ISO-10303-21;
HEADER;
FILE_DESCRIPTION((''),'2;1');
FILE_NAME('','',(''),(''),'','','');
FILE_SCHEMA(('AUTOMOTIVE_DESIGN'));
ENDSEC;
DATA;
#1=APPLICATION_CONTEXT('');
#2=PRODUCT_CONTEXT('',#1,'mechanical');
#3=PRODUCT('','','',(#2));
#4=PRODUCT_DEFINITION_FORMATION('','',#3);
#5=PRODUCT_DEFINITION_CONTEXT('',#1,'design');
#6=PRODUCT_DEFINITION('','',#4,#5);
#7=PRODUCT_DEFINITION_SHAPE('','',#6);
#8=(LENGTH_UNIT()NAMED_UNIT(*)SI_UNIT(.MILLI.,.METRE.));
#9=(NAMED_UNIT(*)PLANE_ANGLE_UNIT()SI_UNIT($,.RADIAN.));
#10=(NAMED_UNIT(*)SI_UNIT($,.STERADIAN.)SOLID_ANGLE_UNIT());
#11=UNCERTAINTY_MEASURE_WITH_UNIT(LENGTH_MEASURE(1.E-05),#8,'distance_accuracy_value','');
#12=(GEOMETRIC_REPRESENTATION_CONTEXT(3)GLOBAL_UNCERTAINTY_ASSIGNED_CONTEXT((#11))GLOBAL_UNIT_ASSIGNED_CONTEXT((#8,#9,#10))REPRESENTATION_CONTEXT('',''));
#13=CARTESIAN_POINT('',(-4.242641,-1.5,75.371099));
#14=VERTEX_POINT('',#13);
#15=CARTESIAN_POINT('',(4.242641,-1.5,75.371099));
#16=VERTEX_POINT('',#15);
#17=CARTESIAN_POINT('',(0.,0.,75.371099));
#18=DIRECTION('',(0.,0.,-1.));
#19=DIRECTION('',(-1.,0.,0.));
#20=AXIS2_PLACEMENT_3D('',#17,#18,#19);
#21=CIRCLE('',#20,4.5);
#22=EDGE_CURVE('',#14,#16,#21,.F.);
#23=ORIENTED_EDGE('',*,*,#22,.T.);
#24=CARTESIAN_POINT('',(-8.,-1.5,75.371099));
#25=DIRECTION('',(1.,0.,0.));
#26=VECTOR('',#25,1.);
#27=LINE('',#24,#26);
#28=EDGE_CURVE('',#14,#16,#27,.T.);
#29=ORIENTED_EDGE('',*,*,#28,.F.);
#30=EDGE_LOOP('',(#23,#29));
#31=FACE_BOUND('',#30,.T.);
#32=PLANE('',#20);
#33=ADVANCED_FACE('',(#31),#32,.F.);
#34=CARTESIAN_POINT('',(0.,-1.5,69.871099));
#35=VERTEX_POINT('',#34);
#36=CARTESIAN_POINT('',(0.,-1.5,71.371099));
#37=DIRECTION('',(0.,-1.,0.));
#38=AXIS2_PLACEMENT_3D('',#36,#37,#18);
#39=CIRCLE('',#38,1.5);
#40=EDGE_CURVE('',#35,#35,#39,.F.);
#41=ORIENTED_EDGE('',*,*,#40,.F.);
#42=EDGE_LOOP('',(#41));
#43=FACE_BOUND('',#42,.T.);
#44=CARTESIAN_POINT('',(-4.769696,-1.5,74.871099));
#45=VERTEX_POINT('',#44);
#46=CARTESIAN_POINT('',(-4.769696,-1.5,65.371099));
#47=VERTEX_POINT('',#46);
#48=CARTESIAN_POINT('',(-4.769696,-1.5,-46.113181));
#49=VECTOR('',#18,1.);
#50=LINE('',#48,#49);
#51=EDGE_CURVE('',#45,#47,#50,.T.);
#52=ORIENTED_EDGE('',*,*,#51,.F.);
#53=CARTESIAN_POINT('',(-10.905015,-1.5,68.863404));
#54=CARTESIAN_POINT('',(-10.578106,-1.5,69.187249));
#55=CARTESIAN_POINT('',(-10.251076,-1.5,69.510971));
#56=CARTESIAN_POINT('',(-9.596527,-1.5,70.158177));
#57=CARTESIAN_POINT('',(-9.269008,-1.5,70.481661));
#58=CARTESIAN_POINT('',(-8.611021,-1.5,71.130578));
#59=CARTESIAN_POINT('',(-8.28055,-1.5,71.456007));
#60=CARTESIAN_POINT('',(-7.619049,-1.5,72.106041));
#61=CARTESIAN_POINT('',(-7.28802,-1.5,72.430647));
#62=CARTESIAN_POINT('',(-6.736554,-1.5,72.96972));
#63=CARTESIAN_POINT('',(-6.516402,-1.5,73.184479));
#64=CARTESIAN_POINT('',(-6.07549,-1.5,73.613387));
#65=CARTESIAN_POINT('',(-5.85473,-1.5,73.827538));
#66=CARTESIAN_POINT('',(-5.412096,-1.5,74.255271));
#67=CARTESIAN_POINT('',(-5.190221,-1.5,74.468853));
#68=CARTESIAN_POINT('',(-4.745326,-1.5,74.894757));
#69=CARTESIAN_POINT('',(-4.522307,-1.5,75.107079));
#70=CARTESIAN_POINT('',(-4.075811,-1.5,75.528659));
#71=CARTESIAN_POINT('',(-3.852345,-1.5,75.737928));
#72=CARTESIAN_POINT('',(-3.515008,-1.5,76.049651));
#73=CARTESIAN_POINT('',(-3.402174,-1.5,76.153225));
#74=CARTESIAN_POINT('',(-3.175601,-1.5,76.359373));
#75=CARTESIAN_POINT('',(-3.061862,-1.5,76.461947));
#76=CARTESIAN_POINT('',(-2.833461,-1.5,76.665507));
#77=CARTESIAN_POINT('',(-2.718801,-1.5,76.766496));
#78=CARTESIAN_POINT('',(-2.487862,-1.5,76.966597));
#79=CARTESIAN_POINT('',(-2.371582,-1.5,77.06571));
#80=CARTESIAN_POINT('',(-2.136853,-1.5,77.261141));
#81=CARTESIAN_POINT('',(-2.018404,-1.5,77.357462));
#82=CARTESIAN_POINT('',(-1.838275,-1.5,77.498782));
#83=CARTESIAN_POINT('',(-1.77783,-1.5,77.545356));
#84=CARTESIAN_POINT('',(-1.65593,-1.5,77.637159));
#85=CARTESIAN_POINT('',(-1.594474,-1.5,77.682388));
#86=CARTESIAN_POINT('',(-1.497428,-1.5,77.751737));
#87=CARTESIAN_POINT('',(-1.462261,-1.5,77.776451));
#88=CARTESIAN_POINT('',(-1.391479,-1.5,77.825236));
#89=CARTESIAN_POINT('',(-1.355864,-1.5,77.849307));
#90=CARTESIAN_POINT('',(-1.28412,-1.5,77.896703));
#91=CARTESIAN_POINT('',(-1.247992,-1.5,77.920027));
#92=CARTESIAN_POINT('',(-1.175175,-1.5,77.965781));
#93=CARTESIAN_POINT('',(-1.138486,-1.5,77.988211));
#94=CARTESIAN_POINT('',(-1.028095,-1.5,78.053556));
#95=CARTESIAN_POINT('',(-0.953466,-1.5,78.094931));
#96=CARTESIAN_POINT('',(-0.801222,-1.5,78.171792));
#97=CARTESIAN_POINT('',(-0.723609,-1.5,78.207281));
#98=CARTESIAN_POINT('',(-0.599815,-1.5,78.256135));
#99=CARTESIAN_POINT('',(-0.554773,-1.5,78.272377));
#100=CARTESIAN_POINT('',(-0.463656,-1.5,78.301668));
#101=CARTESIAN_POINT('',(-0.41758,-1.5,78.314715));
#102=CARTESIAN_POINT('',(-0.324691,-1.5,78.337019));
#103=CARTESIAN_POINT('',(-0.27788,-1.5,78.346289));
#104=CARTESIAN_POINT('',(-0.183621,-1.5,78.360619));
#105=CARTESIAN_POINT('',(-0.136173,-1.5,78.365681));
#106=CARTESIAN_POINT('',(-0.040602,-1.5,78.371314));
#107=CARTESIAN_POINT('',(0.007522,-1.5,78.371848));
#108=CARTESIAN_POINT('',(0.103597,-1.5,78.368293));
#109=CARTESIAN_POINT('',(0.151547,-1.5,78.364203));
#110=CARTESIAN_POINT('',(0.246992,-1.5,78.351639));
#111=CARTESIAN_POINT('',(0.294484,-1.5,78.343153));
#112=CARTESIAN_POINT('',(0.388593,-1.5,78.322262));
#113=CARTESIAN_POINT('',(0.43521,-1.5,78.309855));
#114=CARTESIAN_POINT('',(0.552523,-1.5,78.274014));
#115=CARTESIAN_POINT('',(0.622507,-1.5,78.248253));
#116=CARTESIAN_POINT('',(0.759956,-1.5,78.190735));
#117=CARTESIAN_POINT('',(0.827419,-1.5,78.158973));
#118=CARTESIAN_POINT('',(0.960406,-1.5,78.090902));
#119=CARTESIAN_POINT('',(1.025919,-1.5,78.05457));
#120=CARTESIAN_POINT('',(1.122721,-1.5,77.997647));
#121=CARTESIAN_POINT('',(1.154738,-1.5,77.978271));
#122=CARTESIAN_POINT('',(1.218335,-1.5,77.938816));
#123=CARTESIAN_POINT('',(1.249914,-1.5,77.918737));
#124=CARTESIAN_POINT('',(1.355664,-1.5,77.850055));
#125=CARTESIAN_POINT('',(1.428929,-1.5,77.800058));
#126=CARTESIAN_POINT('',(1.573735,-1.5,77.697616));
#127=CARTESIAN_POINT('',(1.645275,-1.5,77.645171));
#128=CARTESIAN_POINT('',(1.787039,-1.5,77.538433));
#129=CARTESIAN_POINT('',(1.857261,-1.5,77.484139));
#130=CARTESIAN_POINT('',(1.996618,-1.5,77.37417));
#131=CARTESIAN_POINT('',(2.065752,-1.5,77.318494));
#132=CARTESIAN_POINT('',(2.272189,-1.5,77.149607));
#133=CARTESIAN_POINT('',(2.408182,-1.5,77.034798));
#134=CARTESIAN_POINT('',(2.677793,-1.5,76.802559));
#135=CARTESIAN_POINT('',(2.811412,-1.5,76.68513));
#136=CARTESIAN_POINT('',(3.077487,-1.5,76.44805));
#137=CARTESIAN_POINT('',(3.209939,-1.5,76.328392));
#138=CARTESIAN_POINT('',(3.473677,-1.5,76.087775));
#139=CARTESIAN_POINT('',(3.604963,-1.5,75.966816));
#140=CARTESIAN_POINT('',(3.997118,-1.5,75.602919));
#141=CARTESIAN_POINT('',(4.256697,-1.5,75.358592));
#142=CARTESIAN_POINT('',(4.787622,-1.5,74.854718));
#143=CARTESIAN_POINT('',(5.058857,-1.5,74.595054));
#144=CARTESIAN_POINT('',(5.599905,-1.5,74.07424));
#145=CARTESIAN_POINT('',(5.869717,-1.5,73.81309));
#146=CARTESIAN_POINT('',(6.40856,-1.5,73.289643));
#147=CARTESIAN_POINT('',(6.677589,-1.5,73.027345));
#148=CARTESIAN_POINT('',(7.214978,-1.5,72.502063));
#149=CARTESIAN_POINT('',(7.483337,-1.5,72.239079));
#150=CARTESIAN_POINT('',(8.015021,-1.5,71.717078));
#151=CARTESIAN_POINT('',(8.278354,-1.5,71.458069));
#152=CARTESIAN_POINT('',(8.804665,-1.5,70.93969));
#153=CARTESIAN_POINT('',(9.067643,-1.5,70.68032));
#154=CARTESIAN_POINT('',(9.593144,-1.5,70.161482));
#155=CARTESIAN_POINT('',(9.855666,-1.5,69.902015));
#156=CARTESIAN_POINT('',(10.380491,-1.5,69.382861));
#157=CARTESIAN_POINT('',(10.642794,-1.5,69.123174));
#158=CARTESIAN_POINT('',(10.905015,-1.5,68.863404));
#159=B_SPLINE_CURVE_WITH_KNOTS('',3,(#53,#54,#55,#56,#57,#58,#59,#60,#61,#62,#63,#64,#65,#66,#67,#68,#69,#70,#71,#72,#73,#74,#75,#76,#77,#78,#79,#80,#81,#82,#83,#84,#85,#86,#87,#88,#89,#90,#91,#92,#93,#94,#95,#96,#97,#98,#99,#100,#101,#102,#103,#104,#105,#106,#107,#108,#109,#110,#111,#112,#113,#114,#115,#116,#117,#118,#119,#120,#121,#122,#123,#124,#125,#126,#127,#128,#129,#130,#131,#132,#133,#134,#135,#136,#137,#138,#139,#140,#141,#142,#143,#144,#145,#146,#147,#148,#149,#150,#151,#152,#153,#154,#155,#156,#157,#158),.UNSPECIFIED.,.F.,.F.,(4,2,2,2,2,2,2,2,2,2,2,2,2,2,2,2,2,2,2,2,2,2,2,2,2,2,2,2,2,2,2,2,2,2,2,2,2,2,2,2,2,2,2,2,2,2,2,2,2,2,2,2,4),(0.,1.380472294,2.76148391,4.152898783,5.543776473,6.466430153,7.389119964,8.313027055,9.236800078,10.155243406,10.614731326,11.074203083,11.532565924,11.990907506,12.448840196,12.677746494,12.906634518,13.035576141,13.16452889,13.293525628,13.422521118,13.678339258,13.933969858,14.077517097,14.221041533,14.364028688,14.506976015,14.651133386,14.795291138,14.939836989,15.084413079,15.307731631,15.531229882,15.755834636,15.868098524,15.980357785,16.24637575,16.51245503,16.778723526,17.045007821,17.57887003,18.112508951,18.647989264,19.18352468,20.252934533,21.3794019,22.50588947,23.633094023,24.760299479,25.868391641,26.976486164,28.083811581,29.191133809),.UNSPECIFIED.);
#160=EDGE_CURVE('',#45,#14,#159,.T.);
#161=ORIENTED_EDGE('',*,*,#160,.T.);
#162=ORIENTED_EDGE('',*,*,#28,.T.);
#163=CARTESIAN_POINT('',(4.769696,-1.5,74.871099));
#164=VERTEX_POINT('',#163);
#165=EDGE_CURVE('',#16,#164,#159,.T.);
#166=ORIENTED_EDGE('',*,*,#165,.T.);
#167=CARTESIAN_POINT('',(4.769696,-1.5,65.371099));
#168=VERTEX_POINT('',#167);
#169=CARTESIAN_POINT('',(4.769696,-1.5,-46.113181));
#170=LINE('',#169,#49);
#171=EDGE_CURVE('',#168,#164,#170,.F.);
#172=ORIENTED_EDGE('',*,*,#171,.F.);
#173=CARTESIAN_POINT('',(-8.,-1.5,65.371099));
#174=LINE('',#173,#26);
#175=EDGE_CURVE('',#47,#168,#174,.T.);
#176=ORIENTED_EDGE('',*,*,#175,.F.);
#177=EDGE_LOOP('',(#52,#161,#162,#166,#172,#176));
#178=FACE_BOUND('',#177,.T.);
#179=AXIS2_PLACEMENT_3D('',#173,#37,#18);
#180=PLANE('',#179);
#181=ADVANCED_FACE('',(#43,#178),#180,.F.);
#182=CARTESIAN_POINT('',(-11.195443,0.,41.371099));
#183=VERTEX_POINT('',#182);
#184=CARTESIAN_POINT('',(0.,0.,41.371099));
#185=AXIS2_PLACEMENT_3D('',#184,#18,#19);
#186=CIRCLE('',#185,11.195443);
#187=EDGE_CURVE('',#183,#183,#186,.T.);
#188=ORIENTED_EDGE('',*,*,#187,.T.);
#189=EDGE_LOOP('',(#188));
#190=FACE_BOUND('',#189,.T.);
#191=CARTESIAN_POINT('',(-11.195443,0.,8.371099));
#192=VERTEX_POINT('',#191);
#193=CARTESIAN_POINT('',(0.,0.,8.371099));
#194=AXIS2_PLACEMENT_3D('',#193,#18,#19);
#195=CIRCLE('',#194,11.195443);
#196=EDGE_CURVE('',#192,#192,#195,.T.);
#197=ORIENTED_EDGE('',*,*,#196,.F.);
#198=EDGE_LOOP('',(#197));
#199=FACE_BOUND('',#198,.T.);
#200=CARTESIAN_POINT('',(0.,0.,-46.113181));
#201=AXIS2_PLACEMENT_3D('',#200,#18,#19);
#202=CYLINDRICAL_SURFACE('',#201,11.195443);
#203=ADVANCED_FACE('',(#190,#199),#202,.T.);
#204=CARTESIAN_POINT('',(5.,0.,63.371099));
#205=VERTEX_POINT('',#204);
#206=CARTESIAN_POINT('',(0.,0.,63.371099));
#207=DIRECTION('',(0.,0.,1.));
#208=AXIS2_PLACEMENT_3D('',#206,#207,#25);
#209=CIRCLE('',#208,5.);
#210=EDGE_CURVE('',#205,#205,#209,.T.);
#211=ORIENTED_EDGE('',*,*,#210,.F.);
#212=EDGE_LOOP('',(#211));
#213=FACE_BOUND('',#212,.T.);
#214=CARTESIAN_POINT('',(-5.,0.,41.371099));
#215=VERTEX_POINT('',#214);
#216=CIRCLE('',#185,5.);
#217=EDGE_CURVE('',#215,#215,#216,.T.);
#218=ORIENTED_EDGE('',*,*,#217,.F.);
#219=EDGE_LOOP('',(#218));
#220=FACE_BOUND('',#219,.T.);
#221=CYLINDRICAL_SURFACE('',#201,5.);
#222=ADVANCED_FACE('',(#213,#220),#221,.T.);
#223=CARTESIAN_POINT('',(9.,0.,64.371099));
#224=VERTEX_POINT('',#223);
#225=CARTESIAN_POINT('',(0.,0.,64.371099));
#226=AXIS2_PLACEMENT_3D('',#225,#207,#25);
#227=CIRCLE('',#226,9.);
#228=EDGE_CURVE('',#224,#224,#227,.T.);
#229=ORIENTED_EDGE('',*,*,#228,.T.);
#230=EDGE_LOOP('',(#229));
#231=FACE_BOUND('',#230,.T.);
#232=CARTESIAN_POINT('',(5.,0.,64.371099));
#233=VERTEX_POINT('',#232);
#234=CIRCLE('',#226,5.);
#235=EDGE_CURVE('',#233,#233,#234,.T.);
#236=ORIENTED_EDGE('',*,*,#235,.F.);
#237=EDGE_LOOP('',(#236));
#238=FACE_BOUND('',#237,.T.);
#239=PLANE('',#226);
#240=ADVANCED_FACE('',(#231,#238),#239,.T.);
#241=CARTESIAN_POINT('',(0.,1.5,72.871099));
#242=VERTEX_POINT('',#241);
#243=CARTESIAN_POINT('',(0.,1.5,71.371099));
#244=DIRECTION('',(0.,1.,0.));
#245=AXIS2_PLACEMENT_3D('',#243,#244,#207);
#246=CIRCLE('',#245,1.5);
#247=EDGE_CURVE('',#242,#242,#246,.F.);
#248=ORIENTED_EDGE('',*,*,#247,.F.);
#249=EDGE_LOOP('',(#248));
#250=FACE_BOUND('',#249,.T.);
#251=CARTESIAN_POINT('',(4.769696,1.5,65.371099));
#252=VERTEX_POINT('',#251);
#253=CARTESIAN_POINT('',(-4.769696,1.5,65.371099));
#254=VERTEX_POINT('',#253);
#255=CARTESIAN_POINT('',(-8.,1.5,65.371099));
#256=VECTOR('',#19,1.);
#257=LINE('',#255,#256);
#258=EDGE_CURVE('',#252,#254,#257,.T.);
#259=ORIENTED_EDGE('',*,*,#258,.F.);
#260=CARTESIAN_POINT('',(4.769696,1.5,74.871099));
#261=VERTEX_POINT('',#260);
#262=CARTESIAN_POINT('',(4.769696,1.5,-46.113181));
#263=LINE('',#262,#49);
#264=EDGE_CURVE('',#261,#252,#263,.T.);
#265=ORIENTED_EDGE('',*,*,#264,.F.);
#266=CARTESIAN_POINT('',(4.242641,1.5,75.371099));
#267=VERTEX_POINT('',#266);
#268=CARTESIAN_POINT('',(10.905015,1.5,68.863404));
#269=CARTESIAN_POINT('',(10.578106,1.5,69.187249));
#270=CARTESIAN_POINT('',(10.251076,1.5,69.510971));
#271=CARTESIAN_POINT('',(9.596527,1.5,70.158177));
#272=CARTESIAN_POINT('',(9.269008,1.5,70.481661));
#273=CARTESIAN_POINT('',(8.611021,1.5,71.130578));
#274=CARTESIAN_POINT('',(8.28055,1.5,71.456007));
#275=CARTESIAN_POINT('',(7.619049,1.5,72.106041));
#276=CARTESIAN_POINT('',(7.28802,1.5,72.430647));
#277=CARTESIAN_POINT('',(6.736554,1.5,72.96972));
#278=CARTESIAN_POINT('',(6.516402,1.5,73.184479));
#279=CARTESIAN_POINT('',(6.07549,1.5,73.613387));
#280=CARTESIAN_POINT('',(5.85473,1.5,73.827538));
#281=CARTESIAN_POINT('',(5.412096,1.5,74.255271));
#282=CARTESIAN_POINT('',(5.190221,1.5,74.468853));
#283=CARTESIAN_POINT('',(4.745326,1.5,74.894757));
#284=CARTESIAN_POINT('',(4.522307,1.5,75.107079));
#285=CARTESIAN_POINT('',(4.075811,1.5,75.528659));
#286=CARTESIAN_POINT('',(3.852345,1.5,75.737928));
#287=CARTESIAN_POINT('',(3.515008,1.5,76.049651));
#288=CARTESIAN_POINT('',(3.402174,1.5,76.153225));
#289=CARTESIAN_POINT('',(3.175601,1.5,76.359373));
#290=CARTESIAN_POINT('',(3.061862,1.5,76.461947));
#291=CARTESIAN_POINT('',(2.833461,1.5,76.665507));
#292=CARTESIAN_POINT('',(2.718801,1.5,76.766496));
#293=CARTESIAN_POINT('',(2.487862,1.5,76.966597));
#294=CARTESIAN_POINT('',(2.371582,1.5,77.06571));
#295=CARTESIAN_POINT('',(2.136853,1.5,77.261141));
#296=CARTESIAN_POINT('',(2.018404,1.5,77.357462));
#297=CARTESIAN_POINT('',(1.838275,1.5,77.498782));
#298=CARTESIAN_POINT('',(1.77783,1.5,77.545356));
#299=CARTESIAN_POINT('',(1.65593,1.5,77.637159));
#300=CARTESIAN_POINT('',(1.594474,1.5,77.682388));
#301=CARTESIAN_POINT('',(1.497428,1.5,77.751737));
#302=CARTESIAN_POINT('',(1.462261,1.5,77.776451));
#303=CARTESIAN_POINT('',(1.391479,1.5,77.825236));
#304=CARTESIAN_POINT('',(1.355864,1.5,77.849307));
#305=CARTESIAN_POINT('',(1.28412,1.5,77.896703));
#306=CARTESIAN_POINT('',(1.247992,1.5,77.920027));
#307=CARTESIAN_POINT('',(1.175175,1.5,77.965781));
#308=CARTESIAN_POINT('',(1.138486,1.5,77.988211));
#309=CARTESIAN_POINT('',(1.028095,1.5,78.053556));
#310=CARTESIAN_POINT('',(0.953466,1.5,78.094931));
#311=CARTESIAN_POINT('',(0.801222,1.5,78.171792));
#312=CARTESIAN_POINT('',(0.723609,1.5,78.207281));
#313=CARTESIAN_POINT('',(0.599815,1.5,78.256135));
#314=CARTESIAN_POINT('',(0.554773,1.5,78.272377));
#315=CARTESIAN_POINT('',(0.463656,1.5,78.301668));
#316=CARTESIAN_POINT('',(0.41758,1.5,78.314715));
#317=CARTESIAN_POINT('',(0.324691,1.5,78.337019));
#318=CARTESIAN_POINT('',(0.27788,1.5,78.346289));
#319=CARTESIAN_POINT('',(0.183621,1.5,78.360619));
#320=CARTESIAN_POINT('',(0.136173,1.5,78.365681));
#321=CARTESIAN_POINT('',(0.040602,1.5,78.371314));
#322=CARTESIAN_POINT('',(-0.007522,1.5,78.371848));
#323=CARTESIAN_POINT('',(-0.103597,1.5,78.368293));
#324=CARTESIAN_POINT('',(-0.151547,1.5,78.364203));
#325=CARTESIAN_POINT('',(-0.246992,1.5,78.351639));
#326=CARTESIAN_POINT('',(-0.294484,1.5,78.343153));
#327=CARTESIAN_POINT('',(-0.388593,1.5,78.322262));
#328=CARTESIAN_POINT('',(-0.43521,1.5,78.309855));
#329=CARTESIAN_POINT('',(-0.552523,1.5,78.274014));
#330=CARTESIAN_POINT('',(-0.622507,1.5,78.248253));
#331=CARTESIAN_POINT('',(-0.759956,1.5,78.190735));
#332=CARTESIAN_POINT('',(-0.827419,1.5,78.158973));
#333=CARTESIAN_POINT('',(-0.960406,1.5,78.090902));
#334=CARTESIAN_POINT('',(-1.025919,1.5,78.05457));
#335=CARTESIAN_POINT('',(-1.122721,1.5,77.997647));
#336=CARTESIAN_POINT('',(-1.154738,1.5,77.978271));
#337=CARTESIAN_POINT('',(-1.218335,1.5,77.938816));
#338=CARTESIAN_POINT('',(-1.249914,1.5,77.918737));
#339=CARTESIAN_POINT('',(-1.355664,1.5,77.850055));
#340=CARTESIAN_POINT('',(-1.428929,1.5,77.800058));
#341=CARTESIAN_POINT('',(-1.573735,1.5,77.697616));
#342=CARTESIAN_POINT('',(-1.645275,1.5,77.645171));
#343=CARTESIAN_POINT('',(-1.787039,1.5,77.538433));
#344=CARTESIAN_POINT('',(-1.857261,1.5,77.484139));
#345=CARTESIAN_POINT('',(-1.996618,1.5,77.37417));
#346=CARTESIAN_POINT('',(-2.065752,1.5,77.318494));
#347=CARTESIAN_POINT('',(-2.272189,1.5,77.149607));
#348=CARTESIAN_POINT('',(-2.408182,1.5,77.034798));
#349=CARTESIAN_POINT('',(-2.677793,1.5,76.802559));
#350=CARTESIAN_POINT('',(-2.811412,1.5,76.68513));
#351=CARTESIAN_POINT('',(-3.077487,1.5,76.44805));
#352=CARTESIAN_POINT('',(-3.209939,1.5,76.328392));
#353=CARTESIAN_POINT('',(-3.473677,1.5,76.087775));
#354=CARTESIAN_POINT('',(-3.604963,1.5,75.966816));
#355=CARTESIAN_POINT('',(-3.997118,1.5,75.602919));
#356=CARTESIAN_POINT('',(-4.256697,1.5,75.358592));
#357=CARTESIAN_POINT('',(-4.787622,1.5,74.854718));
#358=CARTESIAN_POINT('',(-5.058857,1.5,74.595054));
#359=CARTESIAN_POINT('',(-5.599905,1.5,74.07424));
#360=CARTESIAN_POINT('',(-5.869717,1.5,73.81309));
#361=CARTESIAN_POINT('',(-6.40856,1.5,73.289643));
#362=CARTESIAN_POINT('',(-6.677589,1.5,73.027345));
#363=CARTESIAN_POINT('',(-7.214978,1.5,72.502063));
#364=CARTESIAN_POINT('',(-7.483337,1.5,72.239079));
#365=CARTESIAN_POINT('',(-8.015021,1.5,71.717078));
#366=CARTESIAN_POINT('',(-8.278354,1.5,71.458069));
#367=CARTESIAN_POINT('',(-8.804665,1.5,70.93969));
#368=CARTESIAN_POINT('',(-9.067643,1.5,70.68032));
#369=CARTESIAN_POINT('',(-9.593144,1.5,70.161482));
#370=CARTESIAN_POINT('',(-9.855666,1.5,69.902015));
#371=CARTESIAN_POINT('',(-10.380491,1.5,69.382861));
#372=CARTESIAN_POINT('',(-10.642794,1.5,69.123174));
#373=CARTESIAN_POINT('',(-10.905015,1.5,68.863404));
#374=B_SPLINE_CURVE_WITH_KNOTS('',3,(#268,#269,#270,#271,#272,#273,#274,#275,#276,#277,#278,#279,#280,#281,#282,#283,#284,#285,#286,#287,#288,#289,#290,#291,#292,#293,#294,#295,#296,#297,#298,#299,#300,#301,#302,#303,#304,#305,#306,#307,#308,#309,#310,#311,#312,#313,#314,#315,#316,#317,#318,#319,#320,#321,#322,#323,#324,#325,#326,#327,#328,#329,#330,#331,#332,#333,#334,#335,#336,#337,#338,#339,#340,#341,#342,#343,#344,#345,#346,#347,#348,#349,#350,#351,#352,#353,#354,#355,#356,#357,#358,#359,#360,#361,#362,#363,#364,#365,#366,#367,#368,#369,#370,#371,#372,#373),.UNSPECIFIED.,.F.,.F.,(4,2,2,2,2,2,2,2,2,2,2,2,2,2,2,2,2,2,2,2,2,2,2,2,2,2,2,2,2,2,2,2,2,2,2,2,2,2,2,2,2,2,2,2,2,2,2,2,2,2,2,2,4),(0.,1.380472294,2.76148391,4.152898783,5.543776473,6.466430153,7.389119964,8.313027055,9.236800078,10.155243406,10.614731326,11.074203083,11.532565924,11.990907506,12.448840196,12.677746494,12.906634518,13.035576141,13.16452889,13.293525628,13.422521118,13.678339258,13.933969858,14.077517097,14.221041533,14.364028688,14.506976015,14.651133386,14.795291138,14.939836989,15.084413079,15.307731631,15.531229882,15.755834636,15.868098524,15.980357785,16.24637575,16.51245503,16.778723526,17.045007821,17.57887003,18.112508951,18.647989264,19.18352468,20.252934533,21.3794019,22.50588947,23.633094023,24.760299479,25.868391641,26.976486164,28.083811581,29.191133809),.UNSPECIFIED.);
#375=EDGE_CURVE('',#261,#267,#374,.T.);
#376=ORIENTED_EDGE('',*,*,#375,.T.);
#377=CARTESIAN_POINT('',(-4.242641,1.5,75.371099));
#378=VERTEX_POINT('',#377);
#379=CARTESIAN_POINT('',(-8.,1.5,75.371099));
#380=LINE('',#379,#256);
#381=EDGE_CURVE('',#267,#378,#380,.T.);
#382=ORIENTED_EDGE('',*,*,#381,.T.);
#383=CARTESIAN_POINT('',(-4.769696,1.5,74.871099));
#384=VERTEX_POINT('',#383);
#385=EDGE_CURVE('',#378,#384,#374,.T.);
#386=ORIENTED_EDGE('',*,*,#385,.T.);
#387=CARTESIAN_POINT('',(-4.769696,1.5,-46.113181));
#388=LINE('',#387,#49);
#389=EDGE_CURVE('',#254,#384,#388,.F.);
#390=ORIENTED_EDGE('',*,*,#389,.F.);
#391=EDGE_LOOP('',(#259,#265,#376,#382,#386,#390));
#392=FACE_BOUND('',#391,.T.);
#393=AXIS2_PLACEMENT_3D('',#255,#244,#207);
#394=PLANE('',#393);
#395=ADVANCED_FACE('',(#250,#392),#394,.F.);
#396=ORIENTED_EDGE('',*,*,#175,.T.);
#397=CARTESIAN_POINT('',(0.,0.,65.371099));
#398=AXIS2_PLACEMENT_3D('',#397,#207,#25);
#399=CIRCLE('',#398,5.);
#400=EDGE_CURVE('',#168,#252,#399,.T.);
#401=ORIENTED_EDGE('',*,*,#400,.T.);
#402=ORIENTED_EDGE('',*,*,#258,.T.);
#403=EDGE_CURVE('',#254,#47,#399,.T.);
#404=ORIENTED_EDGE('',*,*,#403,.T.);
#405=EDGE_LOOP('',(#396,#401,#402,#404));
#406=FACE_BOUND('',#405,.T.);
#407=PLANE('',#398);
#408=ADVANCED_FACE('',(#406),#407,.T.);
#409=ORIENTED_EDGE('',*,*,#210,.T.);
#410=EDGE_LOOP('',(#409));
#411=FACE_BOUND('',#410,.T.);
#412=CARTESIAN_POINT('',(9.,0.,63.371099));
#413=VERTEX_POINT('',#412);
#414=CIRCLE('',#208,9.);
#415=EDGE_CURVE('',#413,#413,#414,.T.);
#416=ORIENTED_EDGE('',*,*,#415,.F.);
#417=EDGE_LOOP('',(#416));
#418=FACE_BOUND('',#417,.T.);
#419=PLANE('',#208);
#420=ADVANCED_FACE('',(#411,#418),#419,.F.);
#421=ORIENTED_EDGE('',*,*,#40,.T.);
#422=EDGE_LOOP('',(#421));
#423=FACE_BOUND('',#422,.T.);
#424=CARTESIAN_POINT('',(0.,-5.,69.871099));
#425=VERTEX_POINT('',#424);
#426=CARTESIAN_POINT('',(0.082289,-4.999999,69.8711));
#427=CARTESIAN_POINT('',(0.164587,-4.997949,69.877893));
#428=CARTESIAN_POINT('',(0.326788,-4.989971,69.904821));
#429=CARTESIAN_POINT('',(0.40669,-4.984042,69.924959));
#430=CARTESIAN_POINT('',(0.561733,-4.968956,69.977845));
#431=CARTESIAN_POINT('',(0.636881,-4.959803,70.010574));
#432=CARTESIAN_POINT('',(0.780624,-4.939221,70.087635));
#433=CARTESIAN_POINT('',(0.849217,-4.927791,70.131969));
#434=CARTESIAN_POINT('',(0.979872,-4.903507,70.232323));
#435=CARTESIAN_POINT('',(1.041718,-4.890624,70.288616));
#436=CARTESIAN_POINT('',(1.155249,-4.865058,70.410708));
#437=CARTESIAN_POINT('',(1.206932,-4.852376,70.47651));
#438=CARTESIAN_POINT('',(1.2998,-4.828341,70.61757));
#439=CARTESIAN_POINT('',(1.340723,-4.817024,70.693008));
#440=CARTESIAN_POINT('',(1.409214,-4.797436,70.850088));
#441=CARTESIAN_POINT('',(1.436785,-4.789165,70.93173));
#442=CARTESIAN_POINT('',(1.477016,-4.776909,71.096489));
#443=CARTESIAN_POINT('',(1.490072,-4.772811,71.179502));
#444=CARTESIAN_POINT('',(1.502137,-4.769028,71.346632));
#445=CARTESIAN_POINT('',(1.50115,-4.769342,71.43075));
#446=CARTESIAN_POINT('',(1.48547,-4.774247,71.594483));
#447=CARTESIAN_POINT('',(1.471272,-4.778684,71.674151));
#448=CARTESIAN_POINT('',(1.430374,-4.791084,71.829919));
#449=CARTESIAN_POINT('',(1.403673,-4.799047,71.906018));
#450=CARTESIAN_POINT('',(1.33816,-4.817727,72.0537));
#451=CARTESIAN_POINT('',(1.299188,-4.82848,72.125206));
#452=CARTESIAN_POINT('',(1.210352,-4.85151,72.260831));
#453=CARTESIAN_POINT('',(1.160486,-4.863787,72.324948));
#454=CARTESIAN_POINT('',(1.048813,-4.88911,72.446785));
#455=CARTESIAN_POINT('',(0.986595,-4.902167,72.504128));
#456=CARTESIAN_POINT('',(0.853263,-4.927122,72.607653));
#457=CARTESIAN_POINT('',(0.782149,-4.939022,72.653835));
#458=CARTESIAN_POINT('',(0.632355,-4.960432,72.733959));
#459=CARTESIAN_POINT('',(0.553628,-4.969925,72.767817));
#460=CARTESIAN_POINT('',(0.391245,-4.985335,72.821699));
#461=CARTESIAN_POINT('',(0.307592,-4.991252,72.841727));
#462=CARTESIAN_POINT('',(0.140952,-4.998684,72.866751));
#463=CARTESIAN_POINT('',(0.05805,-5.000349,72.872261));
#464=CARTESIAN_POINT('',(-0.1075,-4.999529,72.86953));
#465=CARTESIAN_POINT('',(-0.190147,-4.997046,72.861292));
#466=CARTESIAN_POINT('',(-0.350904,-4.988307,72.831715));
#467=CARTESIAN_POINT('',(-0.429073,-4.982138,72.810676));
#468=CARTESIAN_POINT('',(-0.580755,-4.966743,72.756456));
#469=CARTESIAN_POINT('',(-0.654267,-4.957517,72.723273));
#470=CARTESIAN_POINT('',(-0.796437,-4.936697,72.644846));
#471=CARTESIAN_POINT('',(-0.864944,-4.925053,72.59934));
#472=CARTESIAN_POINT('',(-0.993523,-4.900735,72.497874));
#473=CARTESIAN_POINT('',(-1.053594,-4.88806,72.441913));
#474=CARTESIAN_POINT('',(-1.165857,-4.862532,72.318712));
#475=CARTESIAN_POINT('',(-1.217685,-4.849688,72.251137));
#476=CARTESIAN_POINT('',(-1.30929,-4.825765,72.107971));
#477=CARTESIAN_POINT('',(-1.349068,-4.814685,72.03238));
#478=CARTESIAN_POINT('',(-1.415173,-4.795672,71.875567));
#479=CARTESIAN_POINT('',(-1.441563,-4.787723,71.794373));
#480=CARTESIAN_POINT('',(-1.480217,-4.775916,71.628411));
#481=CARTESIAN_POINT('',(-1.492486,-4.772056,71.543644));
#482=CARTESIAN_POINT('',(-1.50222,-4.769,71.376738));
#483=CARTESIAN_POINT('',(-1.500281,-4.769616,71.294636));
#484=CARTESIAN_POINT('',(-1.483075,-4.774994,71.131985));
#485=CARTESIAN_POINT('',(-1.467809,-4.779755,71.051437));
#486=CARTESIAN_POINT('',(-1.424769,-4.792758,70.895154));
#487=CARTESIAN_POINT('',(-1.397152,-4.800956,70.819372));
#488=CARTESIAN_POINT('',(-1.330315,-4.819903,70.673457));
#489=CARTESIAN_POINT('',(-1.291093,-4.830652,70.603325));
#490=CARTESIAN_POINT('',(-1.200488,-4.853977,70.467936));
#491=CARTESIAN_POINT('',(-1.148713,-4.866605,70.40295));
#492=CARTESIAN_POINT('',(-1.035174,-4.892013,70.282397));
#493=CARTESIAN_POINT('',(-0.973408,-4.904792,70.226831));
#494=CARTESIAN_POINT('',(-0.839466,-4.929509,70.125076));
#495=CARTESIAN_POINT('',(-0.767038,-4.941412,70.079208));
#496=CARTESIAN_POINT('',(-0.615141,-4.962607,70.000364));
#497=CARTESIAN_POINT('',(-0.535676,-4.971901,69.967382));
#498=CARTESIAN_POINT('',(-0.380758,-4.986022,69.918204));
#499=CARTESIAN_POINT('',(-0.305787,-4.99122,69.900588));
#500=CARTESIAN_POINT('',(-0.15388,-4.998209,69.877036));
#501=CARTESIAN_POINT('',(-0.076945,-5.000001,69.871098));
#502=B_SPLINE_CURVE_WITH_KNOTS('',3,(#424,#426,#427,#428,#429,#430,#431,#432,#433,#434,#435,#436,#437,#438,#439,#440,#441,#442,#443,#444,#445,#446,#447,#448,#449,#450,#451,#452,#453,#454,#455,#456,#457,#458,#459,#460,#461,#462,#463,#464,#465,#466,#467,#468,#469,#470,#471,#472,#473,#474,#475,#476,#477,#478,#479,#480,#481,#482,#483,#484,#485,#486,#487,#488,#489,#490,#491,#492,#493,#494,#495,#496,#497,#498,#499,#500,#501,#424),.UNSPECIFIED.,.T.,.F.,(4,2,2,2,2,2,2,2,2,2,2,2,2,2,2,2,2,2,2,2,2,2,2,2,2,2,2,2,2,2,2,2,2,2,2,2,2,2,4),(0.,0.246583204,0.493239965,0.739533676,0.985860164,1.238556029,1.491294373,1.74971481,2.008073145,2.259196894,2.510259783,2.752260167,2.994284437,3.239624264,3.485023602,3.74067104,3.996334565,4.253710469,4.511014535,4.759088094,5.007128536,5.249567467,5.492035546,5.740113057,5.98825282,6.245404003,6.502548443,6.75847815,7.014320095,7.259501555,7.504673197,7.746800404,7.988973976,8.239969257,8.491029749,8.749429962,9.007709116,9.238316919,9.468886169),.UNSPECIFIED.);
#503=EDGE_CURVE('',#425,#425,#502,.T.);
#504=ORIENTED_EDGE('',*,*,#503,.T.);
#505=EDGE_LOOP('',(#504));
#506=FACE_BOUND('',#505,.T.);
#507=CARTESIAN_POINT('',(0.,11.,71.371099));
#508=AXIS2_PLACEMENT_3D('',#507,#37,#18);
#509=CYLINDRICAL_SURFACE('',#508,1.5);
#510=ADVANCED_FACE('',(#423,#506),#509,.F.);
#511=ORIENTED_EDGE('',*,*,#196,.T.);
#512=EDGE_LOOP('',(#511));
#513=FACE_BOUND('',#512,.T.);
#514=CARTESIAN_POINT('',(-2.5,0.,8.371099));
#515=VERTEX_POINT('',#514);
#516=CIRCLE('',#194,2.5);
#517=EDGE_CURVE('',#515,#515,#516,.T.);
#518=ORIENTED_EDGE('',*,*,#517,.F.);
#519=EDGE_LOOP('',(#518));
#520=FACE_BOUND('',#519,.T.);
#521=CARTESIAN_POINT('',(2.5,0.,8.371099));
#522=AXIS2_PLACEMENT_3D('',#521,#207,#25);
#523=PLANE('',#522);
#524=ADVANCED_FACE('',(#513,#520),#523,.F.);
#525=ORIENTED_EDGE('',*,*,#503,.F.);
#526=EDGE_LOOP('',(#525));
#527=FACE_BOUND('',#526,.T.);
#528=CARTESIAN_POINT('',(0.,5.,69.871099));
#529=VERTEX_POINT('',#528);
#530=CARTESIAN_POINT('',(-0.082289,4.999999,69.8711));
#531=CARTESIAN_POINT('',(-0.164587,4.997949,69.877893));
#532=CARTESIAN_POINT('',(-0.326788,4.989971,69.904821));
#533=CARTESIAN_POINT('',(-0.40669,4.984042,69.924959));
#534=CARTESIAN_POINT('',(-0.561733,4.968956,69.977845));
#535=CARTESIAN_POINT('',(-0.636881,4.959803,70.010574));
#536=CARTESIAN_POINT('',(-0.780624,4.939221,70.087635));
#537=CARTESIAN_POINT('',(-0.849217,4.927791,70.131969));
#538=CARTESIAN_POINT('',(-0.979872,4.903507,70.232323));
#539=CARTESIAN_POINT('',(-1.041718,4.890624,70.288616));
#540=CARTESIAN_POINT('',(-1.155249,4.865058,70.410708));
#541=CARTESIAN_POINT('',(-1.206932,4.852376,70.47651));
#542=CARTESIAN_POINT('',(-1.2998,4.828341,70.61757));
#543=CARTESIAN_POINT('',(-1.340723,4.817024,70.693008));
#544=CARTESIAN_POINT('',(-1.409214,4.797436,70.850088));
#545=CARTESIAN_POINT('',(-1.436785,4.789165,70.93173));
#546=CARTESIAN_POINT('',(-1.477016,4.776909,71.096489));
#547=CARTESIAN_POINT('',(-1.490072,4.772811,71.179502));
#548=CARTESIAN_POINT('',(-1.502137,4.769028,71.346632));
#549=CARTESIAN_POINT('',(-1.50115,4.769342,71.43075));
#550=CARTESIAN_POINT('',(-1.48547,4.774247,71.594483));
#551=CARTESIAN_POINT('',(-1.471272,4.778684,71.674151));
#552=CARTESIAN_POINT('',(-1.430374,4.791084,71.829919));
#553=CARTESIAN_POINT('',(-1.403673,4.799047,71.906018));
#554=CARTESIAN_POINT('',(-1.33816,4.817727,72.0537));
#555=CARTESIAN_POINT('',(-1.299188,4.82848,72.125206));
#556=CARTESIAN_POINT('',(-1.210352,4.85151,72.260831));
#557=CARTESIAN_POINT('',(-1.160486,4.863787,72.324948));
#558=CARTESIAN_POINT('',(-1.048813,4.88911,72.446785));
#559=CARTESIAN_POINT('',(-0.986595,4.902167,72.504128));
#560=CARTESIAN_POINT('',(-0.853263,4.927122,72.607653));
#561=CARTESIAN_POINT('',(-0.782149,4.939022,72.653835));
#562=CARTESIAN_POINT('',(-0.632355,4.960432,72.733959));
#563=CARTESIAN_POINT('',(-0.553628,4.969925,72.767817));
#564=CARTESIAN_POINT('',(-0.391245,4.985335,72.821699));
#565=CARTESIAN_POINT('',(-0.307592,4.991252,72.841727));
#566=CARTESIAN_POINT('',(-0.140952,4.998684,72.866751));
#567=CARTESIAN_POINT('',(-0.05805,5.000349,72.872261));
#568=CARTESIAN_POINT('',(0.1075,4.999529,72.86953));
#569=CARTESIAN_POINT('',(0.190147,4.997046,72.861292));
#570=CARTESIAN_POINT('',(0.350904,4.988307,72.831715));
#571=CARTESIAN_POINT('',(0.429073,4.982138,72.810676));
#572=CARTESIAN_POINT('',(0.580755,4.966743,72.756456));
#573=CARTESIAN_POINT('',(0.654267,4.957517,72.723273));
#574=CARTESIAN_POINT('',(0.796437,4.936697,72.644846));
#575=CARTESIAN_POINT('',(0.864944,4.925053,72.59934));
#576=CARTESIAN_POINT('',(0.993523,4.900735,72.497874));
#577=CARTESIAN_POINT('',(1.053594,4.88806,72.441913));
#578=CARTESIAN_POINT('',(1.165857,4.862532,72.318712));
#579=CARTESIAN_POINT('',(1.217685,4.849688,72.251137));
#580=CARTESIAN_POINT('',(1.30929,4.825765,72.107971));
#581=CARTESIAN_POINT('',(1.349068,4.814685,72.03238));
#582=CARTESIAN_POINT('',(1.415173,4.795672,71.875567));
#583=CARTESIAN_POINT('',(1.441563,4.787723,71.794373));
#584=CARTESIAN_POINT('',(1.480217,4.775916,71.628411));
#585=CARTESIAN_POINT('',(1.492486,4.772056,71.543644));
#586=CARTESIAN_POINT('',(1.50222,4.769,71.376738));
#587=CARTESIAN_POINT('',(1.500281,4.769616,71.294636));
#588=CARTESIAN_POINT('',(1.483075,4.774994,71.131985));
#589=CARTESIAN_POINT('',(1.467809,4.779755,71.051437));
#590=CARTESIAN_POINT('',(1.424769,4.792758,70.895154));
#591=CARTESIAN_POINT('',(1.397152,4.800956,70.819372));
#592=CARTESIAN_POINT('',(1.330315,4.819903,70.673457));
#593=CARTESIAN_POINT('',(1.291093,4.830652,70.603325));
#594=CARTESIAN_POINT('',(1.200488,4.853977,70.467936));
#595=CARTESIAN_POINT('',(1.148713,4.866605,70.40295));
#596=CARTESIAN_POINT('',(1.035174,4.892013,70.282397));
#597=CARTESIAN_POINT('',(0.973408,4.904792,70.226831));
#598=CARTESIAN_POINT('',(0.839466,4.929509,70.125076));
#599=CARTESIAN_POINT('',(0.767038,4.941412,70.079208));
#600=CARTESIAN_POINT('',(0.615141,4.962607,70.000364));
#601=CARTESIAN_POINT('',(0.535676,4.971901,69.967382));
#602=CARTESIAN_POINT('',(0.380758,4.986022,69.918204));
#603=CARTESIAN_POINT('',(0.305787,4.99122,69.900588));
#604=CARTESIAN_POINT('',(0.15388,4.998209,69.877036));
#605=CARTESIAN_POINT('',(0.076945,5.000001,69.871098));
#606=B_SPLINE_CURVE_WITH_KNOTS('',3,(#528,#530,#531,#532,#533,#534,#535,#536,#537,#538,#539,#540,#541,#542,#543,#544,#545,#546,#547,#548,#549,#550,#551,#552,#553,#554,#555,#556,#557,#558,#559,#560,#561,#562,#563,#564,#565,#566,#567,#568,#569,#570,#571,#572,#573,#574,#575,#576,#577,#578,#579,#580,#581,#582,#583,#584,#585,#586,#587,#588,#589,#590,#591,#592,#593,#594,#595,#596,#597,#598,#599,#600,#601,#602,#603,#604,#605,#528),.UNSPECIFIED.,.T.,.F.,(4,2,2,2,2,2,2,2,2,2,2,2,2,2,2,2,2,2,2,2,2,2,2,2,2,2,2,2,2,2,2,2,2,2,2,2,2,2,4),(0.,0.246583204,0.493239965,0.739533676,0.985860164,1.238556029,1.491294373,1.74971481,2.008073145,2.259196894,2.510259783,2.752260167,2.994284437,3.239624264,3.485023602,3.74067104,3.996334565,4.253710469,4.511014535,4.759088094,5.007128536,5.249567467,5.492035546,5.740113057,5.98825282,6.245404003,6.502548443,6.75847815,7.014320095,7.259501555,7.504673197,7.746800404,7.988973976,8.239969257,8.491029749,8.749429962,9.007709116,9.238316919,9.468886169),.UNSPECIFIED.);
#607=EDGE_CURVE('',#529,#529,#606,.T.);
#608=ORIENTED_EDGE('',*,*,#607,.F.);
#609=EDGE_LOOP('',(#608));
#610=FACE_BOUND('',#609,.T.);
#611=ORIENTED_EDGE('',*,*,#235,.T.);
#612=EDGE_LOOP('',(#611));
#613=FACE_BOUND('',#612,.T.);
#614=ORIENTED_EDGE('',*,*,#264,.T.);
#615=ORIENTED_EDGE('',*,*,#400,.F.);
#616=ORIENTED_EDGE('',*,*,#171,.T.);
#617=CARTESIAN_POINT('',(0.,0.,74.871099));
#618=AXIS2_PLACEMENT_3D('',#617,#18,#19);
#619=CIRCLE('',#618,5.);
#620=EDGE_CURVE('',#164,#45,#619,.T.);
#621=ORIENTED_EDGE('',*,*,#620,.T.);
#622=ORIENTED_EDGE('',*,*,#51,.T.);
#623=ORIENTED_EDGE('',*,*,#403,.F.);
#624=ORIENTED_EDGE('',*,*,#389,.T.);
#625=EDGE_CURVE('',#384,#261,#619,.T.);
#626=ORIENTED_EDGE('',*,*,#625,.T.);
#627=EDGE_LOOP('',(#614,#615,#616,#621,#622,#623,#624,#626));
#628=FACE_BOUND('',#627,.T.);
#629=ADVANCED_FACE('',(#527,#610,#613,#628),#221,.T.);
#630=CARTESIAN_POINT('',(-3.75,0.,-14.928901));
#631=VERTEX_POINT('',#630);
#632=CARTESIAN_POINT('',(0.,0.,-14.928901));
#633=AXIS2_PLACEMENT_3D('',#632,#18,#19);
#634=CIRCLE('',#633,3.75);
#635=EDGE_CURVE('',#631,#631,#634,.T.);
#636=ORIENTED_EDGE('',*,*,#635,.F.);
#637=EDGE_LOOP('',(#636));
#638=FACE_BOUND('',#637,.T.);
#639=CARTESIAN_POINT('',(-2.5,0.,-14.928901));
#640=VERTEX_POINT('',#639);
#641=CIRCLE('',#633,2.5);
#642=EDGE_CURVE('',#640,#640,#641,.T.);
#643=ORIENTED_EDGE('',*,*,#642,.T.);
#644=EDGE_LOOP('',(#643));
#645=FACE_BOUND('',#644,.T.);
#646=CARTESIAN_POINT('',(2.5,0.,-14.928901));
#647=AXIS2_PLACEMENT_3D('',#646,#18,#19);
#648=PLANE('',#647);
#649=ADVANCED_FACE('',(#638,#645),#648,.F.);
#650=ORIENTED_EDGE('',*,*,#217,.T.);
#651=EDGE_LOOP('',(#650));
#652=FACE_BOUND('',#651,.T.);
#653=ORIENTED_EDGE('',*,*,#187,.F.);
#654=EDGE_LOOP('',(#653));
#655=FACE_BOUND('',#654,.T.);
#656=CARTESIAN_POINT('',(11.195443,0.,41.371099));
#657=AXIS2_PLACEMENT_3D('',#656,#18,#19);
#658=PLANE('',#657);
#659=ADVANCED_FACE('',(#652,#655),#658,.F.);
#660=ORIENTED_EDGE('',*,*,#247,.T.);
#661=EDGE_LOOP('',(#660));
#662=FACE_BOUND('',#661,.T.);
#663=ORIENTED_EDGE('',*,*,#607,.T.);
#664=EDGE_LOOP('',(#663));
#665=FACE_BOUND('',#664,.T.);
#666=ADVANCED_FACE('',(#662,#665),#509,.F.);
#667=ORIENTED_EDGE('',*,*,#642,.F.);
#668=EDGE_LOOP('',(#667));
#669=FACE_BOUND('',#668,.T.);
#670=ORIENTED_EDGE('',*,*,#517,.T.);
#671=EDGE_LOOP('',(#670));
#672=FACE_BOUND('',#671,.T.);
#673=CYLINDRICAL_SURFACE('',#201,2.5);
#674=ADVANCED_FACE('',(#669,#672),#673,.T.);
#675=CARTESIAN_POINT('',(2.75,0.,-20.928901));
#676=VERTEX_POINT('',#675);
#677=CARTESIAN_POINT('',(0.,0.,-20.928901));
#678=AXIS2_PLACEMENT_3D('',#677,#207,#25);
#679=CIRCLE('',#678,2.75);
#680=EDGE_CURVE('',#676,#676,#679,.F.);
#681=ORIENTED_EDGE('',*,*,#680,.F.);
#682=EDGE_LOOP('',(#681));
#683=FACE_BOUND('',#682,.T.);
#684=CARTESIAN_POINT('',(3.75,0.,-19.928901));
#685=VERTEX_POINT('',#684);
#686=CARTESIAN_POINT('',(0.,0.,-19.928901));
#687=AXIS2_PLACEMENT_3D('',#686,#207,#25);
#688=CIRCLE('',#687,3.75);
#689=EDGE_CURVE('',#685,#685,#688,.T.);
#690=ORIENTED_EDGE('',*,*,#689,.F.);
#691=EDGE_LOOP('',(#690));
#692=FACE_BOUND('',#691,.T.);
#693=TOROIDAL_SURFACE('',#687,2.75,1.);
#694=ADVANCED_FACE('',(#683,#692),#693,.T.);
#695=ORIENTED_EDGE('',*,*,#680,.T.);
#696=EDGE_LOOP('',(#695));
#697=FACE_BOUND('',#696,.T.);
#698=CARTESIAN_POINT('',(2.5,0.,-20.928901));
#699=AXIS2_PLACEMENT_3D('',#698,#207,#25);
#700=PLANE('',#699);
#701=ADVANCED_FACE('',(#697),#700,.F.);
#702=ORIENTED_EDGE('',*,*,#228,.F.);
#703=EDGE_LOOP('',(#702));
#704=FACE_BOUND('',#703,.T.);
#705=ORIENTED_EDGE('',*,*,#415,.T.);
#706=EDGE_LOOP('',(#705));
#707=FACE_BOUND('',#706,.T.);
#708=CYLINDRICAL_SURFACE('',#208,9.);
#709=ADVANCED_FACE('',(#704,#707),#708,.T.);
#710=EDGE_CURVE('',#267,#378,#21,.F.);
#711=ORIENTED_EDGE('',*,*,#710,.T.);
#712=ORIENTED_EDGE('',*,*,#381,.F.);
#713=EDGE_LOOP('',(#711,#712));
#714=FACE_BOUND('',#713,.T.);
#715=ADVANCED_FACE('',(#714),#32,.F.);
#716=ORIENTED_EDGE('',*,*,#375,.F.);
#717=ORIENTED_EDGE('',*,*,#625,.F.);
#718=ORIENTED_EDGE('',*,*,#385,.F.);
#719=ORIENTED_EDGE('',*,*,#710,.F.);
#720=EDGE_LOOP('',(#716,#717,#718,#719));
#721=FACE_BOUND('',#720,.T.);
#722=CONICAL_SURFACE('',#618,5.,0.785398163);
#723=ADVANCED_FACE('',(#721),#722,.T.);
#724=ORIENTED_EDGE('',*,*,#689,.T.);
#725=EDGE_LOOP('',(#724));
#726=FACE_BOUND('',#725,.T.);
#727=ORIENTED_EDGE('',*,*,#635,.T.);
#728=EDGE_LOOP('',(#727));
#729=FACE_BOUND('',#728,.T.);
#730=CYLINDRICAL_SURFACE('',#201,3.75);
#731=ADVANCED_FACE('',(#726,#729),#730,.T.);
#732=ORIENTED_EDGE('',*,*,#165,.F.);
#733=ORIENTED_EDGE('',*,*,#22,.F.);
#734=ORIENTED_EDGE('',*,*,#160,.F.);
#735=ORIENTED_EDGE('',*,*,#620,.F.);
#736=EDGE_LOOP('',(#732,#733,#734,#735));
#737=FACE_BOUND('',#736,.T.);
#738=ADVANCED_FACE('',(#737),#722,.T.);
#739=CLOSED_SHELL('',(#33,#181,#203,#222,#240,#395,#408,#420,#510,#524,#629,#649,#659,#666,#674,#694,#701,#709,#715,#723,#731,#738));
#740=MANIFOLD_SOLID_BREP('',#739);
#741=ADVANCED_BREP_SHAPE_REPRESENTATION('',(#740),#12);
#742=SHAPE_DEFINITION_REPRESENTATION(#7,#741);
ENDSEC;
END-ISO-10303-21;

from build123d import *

# Parameters (mm, degrees)
CHAMFER_1_SIZE      = 0.5
SKETCH_3_W          = 16
SKETCH_3_H          = 3
CUT_EXTRUDE_1_DEPTH = 10
SKETCH_4_R          = 1.5
CUT_EXTRUDE_2_DEPTH = 11
FILLET_1_R          = 1
SKETCH_5_R          = 9
EXTRUDE_1_DEPTH     = 1


with BuildPart() as part:
    # 草图1 → 旋转1 (revolve)
    with BuildSketch(Plane(origin=(0, 0, 0), x_dir=(1, 0, 0), z_dir=(0, 1, 0)), mode=Mode.PRIVATE) as revolve_1_sk:
        Polygon((2.5, 14.928900778), (2.5, -8.371099222), (11.195443228, -8.371099222), (11.195443228, -41.371099222), (5, -41.371099222), (5, -75.371099222), (0, -75.371099222), (0, 20.928900778), (2.5, 20.928900778), (3.75, 20.928900778), (3.75, 14.928900778), align=None)
    revolve(revolve_1_sk.sketch.rotate(Axis((0, 0, -46.113181398), (0, 0, 1)), 180), axis=Axis((0, 0, -46.113181398), (0, 0, 1)))

    # 倒角1
    chamfer_1_edges = [part.edges().sort_by_distance(p)[0] for p in [
        (5, 0, 75.371099222),
    ]]
    chamfer(chamfer_1_edges, length=CHAMFER_1_SIZE)

    # 草图3 → 切除-拉伸1 (cut)
    with BuildSketch(Plane.XY.offset(75.371099222)):
        Rectangle(SKETCH_3_W, SKETCH_3_H)
    extrude(amount=-CUT_EXTRUDE_1_DEPTH, mode=Mode.SUBTRACT)

    # 草图4 → 切除-拉伸2 (cut, symmetric)
    with BuildSketch(Plane(origin=(0, 0, 0), x_dir=(1, 0, 0), z_dir=(0, 1, 0))):
        with Locations(Location((0, -71.371099222, 0), (0, 0, 90))):
            Circle(SKETCH_4_R)
    extrude(amount=CUT_EXTRUDE_2_DEPTH, both=True, mode=Mode.SUBTRACT)

    # 圆角1
    fillet_1_edges = [part.edges().sort_by_distance(p)[0] for p in [
        (3.75, 0, -20.928900778),
    ]]
    fillet(fillet_1_edges, radius=FILLET_1_R)

    # 草图5 → 凸台-拉伸1 (add)
    with BuildSketch(Plane.XY.offset(64.371099222)):
        Circle(SKETCH_5_R)
    extrude(amount=-EXTRUDE_1_DEPTH)


solid = part.part
